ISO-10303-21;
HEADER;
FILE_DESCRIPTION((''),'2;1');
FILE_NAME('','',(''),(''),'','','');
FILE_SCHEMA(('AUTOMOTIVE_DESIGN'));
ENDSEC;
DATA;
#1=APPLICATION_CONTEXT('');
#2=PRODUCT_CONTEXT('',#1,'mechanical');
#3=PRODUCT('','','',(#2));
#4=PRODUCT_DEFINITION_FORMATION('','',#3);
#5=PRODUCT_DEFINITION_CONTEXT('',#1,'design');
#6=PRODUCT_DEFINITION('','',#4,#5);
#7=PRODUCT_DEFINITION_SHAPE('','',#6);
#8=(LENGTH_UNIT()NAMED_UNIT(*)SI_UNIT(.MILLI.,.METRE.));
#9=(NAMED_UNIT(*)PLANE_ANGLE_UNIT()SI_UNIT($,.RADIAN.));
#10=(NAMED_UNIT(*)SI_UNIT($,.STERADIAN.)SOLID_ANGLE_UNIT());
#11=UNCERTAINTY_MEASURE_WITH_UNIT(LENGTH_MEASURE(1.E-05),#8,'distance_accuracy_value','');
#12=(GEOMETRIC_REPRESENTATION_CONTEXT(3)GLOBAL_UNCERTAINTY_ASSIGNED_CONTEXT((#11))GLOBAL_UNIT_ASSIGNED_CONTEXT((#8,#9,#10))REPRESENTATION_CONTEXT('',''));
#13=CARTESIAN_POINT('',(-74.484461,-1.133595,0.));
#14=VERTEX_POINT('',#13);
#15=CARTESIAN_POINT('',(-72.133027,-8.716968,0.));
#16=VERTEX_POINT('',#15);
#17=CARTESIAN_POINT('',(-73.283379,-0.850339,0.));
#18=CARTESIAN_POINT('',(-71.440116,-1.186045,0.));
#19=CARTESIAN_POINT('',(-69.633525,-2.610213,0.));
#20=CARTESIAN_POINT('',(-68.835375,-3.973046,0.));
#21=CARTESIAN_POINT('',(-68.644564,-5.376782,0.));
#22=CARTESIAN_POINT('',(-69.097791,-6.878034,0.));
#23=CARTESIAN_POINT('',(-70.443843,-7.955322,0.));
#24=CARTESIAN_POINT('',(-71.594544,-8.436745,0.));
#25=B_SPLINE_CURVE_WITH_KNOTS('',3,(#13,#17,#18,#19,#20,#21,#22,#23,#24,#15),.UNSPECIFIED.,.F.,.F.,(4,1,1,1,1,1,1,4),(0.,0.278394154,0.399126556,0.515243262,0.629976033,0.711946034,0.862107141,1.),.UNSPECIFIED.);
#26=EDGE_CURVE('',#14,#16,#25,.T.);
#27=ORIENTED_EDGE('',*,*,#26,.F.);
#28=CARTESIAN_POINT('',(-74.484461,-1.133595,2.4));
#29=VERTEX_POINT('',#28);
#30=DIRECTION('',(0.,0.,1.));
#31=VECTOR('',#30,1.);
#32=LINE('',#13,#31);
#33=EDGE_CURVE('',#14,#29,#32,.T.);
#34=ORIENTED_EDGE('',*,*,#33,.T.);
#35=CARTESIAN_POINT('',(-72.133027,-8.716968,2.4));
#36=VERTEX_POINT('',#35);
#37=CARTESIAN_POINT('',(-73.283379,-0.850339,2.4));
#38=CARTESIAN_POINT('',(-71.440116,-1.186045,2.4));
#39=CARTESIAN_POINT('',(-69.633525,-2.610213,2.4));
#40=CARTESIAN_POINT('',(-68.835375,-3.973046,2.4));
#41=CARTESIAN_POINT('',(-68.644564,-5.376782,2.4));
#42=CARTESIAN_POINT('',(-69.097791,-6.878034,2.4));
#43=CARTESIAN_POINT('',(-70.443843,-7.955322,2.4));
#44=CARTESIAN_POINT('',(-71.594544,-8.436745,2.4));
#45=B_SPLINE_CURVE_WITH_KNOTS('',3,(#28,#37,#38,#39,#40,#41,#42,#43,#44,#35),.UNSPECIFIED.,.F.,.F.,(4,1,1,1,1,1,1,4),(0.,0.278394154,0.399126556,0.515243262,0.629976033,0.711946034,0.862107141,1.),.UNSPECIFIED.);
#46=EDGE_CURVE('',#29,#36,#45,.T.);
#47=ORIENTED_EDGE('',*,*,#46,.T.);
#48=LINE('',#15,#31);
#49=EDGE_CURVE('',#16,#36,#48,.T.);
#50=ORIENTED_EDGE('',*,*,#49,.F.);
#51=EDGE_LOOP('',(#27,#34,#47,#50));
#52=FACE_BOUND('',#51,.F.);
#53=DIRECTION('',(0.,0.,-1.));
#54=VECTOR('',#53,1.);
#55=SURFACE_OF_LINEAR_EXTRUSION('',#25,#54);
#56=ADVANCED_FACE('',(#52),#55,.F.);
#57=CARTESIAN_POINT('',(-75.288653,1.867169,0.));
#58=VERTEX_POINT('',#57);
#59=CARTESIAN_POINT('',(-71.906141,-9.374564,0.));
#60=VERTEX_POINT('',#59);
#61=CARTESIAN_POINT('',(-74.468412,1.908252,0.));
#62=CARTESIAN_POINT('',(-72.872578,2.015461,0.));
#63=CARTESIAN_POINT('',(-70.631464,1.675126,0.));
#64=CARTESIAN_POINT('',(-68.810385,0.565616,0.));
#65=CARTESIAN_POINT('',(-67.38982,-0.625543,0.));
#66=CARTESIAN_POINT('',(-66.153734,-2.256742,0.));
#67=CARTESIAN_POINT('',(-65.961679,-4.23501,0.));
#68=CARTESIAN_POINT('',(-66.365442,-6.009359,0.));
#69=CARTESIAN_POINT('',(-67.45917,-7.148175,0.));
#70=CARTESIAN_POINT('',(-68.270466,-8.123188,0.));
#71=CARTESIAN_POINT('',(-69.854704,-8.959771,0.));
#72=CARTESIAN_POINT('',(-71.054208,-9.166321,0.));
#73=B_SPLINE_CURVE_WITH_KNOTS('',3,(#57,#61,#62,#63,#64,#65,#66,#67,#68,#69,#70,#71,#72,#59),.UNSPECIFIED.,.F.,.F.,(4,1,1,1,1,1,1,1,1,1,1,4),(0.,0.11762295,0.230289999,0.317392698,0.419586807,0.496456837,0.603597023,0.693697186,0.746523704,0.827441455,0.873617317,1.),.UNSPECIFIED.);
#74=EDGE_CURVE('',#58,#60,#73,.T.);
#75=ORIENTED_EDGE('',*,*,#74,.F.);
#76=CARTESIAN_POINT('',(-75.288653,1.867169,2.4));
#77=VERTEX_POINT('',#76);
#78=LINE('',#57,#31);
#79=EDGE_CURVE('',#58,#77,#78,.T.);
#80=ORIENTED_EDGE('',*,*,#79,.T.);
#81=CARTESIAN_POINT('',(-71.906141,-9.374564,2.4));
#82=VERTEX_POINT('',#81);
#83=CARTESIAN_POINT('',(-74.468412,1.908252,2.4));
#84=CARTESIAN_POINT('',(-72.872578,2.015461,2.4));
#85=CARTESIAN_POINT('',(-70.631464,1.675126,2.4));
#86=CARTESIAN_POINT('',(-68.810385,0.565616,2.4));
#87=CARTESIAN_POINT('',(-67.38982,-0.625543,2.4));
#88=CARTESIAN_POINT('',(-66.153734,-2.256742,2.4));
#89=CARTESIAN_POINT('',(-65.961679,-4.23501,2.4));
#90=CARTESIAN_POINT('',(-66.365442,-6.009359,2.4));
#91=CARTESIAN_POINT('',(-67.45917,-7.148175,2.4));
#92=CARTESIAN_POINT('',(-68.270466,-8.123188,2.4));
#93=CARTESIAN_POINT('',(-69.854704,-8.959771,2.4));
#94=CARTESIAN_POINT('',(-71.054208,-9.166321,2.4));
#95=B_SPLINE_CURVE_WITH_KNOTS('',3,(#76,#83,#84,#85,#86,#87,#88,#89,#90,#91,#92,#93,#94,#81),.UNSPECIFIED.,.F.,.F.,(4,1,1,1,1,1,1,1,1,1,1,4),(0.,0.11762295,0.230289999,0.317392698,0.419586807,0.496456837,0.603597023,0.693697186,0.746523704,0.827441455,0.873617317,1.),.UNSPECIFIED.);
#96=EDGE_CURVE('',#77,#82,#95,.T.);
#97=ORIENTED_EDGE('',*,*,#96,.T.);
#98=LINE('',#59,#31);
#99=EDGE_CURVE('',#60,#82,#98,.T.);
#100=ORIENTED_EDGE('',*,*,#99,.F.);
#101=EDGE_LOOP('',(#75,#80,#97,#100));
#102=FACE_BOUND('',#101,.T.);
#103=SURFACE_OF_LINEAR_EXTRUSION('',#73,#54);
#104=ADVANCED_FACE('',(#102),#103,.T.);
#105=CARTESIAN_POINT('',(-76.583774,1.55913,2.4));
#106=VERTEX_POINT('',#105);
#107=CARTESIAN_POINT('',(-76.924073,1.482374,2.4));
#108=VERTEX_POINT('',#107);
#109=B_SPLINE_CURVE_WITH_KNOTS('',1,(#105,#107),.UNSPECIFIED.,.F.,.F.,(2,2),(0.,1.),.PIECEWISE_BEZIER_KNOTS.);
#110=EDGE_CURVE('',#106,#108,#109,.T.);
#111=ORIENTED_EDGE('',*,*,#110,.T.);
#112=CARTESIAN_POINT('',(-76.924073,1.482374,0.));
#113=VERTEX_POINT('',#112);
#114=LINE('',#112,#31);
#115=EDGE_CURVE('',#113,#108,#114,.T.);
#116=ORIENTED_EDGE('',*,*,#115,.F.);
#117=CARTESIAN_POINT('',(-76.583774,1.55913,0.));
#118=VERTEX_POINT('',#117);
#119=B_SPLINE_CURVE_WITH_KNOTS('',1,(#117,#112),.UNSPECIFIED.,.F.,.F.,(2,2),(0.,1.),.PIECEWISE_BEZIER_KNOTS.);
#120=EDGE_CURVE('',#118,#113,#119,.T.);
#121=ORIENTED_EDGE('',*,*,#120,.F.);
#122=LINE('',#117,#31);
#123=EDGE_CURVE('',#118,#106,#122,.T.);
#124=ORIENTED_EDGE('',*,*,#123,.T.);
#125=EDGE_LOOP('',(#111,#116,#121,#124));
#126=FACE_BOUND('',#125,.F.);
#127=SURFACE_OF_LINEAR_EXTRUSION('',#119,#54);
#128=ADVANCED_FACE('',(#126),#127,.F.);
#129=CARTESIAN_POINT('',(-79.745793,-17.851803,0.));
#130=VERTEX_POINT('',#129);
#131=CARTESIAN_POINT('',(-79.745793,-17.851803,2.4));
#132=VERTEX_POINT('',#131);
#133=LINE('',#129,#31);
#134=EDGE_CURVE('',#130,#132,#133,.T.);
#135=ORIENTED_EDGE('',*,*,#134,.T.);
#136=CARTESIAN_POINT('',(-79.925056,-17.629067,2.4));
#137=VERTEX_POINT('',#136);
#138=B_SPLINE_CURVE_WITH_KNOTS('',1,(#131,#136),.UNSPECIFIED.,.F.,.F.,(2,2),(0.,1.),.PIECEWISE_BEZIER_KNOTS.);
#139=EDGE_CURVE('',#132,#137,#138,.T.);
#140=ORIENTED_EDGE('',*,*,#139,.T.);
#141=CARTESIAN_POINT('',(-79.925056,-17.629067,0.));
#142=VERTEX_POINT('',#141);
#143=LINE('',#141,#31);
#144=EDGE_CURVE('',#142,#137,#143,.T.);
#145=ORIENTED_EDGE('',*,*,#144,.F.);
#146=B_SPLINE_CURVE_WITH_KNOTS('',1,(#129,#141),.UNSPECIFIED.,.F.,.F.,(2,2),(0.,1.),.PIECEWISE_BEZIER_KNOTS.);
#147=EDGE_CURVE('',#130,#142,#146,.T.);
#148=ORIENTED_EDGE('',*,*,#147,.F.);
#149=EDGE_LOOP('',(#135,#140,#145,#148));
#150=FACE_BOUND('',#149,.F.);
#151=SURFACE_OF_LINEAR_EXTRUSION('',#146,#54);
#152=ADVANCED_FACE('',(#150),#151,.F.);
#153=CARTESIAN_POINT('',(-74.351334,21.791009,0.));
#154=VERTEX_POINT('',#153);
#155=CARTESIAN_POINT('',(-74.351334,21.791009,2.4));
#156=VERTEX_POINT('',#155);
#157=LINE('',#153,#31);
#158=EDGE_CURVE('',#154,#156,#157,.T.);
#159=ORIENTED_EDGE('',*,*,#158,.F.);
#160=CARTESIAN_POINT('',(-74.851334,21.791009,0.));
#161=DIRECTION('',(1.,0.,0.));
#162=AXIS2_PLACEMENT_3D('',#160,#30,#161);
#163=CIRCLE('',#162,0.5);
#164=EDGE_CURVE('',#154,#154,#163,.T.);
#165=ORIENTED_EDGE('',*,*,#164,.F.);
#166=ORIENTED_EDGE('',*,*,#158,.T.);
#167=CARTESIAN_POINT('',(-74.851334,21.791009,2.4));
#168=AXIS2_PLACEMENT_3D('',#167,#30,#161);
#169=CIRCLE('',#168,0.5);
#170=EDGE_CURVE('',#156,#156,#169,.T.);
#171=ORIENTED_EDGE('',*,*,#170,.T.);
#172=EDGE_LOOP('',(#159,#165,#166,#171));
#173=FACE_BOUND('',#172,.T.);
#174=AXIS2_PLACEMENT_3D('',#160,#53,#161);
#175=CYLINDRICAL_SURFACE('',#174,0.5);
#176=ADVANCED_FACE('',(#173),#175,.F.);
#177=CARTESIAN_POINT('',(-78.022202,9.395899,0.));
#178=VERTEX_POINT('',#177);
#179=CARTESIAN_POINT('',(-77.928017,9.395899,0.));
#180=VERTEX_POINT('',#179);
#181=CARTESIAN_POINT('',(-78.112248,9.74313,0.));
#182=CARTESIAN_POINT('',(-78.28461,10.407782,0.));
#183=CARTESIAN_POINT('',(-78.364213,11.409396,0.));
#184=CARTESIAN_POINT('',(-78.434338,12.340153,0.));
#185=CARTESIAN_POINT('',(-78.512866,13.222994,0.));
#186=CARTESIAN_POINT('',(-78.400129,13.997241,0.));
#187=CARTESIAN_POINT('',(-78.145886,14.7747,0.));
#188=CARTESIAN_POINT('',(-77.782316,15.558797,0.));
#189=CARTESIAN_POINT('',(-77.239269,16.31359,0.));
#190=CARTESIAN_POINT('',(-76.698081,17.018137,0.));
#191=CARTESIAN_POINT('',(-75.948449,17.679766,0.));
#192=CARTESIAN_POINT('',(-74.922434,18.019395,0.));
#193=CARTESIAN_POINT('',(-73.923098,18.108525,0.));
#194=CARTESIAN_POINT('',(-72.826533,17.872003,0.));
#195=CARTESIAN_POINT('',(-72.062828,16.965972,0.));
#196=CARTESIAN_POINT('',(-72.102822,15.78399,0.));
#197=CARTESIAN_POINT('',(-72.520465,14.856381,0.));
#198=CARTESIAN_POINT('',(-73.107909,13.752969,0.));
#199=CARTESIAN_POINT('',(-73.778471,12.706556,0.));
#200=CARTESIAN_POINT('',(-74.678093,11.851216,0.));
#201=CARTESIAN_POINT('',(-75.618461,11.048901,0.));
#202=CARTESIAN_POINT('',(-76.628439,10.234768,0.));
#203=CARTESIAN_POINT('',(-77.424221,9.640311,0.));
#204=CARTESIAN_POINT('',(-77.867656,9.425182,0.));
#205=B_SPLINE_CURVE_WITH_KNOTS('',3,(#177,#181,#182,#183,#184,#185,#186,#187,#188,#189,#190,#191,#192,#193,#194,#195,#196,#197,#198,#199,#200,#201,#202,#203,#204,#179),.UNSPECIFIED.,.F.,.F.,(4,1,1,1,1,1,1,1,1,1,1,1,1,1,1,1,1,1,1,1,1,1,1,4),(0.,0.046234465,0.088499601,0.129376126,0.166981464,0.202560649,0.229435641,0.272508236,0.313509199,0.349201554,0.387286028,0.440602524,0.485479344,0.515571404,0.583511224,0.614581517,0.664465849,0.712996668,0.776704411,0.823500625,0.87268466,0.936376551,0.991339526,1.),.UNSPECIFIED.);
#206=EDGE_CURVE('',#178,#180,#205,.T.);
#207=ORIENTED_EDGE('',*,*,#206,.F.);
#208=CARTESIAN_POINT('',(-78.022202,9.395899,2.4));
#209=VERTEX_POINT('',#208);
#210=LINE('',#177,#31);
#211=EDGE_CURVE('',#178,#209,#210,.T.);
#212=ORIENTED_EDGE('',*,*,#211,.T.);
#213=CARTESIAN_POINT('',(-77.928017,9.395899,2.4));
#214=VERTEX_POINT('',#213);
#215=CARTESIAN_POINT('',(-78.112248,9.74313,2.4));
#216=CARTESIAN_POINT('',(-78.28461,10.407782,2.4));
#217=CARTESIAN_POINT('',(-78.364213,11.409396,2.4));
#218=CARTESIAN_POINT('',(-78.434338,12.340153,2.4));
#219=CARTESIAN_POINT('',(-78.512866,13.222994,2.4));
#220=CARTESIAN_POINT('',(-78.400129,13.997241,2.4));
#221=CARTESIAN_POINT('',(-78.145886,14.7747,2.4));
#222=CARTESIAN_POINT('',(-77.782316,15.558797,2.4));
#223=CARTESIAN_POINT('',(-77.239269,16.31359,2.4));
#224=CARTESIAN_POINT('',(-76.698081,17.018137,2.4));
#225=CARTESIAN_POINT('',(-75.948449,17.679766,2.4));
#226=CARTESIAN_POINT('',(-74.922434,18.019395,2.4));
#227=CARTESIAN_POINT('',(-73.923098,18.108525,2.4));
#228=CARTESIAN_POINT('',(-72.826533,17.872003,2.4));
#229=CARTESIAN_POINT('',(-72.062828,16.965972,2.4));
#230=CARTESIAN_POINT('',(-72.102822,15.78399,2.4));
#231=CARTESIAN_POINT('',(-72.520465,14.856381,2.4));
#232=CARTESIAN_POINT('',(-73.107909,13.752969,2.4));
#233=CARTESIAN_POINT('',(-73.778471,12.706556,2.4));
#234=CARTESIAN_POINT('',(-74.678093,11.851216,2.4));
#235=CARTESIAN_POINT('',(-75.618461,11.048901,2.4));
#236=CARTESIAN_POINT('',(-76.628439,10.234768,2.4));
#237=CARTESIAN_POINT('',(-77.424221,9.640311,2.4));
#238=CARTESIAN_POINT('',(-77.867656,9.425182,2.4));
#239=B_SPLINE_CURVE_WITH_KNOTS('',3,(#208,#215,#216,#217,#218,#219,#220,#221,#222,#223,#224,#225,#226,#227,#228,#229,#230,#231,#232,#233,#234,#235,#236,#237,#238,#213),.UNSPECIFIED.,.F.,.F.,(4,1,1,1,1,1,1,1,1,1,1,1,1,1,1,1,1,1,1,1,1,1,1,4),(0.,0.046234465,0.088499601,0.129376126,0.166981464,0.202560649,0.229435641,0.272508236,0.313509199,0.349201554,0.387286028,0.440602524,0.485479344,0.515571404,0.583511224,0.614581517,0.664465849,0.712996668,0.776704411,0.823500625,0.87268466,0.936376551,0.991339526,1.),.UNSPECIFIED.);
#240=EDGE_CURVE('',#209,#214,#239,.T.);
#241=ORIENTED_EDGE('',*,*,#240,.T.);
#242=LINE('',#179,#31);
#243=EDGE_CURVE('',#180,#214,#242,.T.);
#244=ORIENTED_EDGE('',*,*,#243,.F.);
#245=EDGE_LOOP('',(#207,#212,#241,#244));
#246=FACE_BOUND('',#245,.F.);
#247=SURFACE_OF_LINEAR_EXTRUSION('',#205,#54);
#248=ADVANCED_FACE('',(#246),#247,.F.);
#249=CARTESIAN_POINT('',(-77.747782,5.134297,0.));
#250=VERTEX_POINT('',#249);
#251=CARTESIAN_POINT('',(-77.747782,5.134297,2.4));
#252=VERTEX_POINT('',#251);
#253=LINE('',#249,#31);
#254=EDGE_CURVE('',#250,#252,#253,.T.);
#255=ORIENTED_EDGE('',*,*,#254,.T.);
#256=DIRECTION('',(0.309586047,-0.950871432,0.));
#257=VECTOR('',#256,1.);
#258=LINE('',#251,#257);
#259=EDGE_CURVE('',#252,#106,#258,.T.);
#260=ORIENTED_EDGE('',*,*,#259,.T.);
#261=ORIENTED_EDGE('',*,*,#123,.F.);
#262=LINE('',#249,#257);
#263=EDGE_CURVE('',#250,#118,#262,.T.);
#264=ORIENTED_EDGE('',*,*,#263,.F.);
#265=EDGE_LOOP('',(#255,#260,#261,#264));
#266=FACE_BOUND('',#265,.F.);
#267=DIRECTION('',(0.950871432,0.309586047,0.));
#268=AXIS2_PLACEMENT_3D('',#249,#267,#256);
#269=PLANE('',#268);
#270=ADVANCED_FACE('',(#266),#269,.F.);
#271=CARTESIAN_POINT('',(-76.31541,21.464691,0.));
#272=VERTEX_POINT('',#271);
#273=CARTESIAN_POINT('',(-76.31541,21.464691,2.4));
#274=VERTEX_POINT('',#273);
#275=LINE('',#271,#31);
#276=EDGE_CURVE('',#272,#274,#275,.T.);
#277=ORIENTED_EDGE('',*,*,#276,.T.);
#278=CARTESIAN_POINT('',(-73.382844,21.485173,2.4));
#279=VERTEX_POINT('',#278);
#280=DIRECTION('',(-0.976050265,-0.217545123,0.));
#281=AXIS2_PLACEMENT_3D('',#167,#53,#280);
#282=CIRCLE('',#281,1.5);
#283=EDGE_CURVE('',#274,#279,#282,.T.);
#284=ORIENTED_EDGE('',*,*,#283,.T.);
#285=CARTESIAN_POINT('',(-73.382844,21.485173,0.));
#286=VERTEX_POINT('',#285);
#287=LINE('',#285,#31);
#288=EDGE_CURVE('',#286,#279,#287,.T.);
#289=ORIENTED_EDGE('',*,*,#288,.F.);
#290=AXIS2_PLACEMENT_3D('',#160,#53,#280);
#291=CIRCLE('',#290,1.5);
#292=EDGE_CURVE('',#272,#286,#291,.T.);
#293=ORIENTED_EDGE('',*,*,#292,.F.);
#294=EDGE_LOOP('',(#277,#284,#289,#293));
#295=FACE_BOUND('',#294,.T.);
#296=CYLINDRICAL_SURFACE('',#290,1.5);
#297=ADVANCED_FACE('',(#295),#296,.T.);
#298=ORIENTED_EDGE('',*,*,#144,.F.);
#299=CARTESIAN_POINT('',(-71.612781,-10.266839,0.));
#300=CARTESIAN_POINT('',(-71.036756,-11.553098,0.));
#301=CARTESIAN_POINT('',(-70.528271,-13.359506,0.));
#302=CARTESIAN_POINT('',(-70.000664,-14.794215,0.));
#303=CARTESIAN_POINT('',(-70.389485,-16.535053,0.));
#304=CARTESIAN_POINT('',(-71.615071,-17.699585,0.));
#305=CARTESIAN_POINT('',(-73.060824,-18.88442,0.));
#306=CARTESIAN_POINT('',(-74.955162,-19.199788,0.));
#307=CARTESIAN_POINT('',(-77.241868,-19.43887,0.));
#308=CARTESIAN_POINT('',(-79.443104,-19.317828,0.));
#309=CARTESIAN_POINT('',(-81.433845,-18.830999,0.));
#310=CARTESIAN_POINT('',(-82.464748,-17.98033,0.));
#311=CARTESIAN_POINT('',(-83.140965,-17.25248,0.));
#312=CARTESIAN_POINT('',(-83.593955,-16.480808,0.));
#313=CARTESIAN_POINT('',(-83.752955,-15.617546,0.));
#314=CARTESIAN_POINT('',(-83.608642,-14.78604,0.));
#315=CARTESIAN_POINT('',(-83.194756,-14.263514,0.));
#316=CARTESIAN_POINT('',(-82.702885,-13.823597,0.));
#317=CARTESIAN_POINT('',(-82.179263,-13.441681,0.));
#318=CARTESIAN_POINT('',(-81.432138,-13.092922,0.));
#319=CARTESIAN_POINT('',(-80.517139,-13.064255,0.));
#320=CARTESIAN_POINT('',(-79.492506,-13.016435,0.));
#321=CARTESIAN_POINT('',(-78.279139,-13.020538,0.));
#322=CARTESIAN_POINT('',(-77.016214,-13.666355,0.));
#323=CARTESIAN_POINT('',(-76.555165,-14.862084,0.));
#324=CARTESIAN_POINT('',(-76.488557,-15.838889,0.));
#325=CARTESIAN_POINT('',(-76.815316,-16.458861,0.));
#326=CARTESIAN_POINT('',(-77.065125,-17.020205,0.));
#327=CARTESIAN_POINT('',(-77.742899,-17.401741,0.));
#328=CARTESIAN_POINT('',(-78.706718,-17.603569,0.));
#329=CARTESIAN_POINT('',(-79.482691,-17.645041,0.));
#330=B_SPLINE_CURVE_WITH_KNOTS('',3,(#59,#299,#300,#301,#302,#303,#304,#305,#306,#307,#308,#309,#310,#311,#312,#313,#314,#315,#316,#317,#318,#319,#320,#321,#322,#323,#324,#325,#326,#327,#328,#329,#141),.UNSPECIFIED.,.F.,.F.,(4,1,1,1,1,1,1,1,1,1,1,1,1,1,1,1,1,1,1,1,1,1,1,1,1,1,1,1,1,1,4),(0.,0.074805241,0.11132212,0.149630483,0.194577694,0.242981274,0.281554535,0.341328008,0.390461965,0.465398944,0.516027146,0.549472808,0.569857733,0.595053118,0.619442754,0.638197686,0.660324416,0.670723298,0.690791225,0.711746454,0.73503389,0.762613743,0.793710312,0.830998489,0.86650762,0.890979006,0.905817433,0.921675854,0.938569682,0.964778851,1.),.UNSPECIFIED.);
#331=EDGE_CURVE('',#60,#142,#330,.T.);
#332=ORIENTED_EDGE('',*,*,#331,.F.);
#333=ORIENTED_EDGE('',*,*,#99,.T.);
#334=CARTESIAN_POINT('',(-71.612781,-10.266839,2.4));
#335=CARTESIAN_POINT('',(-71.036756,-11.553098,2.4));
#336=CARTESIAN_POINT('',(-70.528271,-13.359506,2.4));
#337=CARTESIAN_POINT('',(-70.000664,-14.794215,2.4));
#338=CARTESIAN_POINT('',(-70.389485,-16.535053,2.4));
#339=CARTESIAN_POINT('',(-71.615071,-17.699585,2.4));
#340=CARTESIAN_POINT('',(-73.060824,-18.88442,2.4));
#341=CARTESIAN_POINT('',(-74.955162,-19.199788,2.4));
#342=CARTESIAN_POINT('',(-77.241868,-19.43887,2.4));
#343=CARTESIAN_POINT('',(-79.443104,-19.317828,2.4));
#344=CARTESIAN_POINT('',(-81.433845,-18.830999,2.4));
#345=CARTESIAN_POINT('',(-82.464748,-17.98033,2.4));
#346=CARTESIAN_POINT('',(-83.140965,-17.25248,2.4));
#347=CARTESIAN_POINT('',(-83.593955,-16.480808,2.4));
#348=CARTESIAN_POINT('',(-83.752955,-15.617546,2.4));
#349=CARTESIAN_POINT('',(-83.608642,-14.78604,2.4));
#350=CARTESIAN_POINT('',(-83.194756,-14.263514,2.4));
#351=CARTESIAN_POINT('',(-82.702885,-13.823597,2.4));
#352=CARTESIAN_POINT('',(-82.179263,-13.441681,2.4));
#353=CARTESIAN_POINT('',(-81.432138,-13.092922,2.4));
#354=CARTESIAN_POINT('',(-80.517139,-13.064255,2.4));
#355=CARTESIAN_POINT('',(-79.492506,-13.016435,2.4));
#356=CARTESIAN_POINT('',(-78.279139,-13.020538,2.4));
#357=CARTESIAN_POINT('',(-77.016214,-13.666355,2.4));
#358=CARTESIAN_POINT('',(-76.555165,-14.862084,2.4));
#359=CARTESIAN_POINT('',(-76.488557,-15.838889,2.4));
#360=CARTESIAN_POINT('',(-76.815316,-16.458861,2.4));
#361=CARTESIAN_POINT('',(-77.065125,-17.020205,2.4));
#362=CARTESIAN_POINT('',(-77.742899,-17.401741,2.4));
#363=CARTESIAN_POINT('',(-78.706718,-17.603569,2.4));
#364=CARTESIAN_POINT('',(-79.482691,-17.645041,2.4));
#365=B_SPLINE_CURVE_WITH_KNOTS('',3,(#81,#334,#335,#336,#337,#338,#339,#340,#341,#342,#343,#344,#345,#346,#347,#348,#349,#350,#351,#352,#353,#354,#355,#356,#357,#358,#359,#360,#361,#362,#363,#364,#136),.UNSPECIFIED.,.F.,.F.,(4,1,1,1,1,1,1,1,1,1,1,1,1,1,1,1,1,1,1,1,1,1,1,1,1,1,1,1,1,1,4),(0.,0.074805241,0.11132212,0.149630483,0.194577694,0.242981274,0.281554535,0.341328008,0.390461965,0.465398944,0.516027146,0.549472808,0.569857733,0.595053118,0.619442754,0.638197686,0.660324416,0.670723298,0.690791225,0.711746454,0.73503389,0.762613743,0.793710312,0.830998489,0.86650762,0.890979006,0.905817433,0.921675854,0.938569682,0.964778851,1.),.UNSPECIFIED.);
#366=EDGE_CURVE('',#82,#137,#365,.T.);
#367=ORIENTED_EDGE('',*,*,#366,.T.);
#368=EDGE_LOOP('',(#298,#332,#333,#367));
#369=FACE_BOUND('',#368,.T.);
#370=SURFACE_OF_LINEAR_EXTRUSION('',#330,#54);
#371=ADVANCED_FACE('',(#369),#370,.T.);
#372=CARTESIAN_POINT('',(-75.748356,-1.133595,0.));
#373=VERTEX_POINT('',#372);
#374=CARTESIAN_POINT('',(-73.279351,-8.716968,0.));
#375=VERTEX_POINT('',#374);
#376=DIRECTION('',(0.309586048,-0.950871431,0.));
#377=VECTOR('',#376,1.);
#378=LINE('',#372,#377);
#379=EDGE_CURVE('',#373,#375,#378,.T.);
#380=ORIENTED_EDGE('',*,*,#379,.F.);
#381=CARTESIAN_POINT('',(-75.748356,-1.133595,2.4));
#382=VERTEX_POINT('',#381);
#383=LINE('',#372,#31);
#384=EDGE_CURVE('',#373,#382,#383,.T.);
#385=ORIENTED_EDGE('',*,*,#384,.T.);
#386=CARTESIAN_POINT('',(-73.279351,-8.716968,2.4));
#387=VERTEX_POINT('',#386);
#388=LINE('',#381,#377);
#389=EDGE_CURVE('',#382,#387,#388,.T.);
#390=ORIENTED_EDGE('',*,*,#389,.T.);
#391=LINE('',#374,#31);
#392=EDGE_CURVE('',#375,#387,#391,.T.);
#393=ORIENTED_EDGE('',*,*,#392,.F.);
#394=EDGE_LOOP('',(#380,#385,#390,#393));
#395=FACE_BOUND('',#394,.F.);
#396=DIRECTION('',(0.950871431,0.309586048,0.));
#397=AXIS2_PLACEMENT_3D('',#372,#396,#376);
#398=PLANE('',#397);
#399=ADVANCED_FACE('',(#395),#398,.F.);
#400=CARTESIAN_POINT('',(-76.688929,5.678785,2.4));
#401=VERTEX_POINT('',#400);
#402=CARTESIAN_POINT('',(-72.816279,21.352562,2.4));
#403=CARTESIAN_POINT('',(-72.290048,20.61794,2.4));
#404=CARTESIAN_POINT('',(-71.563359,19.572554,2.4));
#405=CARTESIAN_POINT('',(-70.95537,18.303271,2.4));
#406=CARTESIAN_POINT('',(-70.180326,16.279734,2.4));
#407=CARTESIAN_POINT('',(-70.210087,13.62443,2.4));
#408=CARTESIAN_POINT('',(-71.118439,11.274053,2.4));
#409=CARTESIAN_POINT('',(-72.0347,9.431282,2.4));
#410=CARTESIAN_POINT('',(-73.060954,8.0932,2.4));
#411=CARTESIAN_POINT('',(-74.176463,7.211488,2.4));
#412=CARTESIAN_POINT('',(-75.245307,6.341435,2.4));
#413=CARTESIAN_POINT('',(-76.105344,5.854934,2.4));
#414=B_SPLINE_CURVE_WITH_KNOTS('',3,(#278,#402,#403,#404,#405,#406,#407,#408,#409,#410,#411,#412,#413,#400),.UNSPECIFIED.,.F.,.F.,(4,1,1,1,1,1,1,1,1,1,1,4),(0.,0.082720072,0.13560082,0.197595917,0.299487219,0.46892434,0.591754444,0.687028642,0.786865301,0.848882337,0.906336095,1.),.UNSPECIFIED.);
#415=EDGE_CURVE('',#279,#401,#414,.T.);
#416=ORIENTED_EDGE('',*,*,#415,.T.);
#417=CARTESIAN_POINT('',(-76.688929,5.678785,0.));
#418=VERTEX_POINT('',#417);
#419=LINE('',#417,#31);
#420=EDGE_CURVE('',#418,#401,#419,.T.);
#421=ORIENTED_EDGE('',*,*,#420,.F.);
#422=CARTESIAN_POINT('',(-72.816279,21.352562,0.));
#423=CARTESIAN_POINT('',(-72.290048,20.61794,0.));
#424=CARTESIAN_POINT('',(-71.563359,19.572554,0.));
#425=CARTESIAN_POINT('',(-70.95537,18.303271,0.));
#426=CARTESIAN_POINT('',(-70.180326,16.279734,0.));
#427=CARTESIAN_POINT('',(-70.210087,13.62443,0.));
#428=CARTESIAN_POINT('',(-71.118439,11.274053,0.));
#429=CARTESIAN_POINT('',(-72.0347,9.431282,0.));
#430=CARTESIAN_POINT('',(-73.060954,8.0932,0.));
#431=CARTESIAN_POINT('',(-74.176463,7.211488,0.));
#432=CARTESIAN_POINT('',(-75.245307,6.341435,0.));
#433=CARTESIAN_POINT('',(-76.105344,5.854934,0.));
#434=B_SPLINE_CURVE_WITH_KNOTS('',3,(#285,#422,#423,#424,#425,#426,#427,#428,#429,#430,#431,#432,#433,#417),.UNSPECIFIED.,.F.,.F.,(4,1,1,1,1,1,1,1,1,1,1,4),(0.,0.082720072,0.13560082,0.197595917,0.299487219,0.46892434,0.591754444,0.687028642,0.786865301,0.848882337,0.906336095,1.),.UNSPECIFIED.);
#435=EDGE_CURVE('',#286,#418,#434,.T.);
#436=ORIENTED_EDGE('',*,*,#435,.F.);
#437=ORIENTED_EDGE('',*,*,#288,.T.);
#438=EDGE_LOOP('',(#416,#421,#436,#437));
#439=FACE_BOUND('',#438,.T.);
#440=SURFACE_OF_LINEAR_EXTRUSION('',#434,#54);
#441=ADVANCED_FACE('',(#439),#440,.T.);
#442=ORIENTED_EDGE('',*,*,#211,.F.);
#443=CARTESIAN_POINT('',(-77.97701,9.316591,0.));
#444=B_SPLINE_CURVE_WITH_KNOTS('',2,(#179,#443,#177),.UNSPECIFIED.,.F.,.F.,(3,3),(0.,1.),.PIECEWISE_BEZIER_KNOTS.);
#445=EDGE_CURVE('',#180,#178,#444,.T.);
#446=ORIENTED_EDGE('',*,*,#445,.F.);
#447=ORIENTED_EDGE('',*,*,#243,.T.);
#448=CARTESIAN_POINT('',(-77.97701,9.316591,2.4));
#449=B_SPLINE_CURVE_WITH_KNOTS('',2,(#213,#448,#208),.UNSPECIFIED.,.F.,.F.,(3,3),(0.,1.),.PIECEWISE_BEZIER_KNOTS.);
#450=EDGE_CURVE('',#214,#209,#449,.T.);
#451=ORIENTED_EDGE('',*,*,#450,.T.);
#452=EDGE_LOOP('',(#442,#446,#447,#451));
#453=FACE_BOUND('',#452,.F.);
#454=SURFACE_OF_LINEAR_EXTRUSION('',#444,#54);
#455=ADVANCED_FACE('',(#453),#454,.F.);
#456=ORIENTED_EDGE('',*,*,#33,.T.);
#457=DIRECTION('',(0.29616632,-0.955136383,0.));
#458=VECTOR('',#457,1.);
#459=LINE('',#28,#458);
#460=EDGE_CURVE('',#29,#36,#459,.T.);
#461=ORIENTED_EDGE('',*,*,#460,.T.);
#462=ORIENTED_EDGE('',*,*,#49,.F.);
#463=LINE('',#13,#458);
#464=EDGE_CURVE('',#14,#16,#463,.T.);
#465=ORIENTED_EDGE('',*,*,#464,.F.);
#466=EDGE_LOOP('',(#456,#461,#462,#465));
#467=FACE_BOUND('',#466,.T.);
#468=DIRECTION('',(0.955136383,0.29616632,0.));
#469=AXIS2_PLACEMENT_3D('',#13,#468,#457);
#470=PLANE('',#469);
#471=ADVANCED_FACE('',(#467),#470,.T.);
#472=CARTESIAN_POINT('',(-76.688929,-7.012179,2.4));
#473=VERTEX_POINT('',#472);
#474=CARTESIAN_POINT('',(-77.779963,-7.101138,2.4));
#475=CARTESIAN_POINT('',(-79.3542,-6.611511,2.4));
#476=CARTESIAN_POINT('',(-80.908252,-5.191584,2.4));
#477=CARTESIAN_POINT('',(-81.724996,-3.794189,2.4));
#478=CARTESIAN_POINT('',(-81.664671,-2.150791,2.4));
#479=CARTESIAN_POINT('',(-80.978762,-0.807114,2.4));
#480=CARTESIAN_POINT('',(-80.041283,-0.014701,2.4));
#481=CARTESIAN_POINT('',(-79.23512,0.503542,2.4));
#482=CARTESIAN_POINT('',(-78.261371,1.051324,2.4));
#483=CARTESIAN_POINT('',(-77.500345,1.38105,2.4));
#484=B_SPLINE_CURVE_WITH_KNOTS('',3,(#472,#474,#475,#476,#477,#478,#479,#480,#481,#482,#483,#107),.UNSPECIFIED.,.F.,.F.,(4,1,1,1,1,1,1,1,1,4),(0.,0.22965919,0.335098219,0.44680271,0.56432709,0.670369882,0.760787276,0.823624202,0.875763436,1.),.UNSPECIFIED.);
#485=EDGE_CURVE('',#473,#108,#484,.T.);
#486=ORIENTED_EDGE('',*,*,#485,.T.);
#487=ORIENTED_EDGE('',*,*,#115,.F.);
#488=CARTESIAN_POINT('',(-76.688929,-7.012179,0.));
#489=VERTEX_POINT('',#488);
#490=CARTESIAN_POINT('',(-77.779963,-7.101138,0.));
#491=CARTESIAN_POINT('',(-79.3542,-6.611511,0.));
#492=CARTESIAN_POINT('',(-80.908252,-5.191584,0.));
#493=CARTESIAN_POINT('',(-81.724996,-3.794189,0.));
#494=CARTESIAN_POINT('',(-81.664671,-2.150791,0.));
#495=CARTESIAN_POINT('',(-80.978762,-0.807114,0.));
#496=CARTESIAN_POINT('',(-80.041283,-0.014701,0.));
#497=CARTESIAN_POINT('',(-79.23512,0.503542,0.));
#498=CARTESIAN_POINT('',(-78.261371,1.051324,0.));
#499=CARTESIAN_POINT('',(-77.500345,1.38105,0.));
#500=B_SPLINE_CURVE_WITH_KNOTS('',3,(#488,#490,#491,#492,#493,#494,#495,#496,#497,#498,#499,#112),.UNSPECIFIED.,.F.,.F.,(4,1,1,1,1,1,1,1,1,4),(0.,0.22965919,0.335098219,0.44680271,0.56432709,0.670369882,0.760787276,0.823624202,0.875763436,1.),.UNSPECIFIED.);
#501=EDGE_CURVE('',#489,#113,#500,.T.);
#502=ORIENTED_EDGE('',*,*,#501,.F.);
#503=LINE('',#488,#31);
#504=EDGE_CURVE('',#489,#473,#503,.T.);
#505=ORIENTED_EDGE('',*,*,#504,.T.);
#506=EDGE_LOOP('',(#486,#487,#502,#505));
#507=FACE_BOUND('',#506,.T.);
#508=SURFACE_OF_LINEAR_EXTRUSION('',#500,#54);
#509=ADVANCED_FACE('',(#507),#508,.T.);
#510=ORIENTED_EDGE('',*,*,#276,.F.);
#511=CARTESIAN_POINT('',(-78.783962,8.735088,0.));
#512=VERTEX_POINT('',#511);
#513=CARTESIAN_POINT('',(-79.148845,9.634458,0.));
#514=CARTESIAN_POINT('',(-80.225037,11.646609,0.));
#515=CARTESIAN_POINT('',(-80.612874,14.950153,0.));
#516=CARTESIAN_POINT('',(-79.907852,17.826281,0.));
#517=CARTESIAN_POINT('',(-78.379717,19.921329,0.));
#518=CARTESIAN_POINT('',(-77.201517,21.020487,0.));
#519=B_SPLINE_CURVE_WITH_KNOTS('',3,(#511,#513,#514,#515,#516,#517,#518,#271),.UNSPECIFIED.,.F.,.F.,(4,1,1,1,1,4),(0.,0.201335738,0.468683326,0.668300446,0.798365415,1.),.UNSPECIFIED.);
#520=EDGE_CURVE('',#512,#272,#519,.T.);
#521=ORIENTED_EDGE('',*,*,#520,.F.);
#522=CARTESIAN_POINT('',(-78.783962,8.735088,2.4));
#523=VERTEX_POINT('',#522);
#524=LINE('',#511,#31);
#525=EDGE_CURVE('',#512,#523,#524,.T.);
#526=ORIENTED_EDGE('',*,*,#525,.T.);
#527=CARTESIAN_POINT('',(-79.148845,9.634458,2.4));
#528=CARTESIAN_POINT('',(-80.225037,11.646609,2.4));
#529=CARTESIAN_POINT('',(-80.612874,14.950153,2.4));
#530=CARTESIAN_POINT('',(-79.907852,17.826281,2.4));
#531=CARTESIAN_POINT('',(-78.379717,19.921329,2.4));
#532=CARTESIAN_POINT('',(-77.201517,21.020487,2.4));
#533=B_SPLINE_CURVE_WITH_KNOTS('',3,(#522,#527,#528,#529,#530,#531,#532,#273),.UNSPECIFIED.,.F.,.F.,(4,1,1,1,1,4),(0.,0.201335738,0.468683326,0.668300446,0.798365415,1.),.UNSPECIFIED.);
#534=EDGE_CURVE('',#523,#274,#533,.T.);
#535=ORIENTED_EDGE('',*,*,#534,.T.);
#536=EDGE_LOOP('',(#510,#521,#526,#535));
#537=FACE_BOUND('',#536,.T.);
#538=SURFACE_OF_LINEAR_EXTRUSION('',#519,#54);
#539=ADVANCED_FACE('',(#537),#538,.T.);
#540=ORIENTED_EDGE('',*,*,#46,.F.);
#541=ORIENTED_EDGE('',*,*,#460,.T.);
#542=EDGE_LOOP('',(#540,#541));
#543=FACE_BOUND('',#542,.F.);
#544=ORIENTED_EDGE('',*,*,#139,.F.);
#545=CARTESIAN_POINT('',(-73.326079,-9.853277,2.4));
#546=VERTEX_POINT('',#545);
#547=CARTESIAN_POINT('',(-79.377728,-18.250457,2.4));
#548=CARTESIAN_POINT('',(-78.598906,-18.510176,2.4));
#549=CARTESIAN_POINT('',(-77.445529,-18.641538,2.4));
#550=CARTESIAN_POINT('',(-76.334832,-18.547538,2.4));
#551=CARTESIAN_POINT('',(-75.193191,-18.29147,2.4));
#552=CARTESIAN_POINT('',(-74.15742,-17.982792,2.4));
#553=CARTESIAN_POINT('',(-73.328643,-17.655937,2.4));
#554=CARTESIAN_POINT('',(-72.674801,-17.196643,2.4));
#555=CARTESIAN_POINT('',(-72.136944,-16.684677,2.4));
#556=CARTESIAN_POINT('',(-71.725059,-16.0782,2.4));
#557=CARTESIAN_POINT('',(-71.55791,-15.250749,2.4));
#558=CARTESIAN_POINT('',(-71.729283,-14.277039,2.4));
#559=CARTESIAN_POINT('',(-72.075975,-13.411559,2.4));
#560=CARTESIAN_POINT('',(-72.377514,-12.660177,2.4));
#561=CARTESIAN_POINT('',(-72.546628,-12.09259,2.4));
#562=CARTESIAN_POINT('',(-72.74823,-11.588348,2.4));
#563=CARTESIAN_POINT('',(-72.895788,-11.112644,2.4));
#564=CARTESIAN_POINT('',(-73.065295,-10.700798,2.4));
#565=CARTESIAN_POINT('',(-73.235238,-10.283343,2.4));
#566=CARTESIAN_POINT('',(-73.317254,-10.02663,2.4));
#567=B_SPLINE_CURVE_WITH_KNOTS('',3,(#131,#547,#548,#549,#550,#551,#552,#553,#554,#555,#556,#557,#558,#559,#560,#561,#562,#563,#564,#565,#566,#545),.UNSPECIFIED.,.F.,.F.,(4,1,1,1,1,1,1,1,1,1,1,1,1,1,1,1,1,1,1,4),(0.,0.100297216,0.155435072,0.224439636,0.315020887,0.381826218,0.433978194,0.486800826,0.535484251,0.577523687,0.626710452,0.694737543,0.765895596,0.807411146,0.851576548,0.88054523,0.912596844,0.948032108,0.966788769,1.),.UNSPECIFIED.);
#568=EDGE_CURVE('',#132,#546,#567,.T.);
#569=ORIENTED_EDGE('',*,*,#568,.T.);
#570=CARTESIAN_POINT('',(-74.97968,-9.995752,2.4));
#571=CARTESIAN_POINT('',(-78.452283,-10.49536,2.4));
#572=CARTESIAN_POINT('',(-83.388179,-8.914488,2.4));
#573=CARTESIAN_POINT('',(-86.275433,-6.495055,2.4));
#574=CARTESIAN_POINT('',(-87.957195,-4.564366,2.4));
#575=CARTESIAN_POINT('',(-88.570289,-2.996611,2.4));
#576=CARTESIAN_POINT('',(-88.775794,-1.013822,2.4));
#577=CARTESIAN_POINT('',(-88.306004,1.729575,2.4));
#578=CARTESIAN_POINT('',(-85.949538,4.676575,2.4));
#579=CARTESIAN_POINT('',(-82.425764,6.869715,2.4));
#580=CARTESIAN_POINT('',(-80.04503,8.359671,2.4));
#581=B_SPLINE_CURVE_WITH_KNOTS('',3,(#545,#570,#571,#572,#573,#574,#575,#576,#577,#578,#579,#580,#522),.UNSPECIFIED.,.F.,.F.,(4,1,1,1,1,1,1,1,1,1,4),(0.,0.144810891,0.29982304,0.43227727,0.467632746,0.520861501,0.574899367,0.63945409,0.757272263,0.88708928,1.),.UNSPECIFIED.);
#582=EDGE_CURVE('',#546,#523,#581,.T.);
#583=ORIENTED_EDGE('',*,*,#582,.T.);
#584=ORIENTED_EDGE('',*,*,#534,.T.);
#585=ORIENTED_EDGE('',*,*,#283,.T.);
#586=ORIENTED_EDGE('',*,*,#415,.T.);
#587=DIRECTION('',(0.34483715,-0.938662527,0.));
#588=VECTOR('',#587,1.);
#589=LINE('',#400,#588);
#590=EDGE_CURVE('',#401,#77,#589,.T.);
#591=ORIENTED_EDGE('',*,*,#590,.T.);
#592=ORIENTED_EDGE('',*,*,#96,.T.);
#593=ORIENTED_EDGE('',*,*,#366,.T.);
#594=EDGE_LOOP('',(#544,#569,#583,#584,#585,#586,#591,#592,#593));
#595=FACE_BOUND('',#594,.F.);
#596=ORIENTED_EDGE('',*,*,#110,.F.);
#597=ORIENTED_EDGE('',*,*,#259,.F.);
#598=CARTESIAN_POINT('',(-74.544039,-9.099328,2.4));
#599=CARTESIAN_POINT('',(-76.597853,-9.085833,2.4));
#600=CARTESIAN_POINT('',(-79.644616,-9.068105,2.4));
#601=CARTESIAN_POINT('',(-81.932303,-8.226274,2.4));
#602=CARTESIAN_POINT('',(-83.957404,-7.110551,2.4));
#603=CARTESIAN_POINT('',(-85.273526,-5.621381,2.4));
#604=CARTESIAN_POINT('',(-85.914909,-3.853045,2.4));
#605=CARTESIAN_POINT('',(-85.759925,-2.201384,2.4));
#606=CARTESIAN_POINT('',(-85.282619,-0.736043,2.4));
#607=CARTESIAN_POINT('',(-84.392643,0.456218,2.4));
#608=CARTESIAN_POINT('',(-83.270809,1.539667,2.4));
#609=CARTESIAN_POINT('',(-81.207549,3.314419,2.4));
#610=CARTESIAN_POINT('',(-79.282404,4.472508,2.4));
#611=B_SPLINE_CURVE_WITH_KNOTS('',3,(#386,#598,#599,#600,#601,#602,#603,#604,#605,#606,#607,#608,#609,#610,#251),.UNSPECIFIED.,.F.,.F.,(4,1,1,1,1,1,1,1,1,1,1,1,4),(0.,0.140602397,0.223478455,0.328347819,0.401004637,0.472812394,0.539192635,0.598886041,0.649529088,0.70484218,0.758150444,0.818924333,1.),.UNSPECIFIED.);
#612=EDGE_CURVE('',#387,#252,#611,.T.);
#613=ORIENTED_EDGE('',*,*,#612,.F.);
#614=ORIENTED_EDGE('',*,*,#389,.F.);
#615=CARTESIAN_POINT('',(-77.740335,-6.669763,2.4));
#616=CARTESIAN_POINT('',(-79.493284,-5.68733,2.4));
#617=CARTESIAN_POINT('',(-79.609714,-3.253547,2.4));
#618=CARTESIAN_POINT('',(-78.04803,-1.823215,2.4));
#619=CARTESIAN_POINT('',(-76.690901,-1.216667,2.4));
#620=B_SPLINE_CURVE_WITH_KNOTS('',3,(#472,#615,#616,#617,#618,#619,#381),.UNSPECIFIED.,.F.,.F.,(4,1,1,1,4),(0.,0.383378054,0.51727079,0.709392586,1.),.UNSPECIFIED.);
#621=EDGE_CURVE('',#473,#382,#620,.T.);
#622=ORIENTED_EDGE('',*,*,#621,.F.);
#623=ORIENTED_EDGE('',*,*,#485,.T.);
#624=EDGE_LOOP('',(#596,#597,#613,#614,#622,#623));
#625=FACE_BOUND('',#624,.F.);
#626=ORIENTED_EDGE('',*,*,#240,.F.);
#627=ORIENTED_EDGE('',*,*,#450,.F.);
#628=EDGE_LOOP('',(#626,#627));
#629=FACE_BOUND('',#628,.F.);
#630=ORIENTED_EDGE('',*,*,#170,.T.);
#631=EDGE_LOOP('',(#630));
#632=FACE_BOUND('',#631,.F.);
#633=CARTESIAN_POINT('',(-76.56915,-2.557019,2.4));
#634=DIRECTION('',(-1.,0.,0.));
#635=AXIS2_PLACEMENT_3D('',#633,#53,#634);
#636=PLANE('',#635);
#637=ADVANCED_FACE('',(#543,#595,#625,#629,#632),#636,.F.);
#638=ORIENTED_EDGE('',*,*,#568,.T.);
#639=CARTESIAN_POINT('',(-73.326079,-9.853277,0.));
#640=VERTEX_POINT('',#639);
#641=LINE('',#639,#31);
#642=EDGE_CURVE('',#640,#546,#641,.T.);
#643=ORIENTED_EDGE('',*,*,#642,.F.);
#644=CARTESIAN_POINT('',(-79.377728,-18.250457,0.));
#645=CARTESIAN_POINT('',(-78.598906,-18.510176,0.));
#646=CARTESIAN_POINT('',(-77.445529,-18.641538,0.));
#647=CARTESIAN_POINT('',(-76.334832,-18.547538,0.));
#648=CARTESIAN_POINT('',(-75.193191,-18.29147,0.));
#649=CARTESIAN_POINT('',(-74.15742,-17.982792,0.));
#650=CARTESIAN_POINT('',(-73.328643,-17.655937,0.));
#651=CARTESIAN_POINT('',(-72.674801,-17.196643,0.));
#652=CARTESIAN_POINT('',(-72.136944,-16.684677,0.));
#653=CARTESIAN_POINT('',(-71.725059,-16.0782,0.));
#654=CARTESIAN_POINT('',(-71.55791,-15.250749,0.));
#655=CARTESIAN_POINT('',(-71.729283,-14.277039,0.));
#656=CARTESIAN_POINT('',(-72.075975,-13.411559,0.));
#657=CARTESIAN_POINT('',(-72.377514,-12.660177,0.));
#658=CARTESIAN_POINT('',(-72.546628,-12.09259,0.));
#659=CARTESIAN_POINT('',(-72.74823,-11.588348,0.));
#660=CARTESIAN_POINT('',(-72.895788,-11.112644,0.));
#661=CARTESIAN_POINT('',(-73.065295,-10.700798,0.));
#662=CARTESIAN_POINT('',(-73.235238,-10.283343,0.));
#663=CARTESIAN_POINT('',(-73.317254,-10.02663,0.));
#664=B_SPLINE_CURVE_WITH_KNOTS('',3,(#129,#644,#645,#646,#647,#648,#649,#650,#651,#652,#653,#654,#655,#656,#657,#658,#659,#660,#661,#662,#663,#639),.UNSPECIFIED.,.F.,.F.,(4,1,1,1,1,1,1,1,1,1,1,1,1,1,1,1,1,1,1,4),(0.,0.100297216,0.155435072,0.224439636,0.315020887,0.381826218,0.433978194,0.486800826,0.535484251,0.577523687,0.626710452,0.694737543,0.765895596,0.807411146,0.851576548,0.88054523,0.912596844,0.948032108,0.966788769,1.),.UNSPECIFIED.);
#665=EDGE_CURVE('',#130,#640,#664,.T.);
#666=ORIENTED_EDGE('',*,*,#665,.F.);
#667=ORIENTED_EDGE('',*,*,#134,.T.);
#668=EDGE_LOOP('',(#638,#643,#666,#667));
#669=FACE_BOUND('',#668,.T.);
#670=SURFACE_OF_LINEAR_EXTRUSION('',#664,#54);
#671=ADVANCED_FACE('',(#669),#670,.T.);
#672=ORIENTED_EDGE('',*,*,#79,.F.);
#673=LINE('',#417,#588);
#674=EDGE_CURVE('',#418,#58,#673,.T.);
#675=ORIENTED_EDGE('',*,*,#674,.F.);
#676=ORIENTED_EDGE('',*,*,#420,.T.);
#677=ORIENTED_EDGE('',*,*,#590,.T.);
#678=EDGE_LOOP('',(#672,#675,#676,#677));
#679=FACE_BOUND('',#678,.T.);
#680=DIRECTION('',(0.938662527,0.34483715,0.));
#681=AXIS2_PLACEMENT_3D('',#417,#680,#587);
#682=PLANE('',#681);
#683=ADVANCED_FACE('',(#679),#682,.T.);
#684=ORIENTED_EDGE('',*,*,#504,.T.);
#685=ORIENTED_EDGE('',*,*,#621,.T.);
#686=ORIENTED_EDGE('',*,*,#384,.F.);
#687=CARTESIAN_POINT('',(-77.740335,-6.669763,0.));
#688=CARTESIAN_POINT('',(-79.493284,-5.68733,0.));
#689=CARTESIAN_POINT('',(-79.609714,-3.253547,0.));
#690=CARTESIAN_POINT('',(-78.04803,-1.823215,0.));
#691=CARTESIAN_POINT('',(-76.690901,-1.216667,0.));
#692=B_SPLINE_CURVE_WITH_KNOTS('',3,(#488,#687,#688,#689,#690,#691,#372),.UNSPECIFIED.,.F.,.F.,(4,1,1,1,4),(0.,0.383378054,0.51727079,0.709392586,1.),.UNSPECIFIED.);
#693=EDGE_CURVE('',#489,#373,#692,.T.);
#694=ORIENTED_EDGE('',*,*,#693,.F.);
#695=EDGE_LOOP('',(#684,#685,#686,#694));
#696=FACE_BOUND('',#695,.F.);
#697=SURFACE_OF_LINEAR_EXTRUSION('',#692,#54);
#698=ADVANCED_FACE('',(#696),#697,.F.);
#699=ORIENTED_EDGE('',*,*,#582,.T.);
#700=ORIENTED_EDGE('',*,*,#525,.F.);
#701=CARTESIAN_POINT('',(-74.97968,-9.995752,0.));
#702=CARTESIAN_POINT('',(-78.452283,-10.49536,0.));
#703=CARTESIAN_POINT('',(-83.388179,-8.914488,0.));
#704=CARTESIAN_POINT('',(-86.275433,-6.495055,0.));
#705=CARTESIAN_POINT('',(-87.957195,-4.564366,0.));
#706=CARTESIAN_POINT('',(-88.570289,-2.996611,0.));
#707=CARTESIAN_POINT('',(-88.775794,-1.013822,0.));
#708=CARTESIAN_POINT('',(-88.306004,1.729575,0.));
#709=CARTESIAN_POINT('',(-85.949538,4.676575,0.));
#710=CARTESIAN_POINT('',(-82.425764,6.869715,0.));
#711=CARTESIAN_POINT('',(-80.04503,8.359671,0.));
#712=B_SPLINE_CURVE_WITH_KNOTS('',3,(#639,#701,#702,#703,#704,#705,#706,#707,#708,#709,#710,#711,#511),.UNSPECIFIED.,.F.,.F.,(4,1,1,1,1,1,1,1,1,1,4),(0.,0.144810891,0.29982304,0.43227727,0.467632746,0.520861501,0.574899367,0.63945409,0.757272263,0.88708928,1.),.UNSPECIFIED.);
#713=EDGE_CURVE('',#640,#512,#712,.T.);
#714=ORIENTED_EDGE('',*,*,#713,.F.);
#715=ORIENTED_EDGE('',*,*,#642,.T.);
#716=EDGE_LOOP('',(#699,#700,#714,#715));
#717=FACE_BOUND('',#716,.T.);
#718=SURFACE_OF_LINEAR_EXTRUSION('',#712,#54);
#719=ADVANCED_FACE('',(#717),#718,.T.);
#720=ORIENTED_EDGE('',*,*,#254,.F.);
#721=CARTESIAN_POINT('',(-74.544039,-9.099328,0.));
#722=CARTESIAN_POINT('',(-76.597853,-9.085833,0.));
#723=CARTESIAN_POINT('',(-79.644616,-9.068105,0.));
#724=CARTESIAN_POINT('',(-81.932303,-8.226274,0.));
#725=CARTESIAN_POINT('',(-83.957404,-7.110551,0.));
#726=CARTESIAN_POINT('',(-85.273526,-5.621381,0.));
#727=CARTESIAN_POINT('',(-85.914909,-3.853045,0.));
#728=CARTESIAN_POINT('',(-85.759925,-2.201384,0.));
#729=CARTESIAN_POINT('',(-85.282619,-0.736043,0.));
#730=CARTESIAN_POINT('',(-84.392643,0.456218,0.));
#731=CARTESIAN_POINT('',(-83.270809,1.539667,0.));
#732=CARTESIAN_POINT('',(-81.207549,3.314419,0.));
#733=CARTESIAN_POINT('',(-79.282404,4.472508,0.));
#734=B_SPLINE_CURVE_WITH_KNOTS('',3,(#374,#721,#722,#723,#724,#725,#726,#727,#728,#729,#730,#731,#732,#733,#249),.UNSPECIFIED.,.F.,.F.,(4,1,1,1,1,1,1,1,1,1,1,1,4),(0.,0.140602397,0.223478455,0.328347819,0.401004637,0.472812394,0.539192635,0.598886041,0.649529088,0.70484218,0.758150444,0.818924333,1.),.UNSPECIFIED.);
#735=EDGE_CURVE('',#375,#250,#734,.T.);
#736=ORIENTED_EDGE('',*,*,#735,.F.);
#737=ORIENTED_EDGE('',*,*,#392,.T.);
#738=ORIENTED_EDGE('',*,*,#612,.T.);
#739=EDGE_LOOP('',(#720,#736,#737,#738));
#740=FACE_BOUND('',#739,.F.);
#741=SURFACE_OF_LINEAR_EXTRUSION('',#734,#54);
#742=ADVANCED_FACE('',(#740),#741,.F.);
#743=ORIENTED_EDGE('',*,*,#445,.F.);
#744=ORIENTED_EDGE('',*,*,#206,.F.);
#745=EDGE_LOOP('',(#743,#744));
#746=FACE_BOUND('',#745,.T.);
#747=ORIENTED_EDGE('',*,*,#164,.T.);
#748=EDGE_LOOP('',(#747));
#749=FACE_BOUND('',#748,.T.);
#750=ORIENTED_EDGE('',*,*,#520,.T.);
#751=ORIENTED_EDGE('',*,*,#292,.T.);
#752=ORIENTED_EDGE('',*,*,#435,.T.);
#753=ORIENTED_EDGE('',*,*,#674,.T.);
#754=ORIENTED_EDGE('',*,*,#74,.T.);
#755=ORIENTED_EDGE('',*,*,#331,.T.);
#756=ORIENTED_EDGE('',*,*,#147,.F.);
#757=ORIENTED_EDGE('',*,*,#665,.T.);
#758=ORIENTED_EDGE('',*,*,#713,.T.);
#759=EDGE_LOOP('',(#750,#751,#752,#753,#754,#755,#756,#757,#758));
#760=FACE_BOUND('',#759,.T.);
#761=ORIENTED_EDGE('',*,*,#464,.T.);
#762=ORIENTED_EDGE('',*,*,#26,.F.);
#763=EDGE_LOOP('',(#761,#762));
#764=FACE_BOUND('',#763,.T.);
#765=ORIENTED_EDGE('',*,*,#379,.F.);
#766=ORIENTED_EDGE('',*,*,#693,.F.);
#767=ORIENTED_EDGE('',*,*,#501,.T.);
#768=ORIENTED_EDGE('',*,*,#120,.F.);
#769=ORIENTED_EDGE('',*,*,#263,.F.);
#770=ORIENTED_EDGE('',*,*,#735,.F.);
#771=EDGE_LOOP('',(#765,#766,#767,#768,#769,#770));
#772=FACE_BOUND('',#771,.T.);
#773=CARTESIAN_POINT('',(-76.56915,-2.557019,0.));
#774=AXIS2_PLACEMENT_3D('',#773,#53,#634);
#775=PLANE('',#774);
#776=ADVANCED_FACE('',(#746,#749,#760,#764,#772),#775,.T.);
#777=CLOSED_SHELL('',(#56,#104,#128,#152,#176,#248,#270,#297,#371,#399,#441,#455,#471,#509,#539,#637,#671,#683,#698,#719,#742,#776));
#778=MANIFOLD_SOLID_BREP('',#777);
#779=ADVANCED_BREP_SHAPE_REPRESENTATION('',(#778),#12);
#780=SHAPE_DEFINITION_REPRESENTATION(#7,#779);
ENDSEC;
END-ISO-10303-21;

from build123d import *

# Parameters (mm, degrees)
CROQUIS1_R              = 0.5
SALIENTE_EXTRUIR1_DEPTH = 2.4


with BuildPart() as part:
    # Croquis1 → Saliente-Extruir1 (new body)
    with BuildSketch(Plane.XY):
        with BuildLine():
            add(Edge.make_bspline(
                [(-73.382843904, 21.485172649), (-72.816279322, 21.352562277), (-72.290048161, 20.617939926), (-71.563359458, 19.572554368), (-70.955369846, 18.303271377), (-70.180325761, 16.279733813), (-70.210087208, 13.6244299), (-71.118438702, 11.274052597), (-72.034700283, 9.43128208), (-73.060953827, 8.093199889), (-74.176463418, 7.211487575), (-75.245307097, 6.341435028), (-76.105343924, 5.854934057), (-76.688929455, 5.678784709)],
                knots=[0, 0, 0, 0, 0.082720072, 0.13560082, 0.197595917, 0.299487219, 0.46892434, 0.591754444, 0.687028642, 0.786865301, 0.848882337, 0.906336095, 1, 1, 1, 1], degree=3))
            Line((-76.688929455, 5.678784709), (-75.288653219, 1.867168619))
            add(Edge.make_bspline(
                [(-75.288653219, 1.867168619), (-74.468411952, 1.908252334), (-72.872577878, 2.015461097), (-70.631463745, 1.675125729), (-68.810384606, 0.565616098), (-67.389820174, -0.62554349), (-66.153734293, -2.256742458), (-65.96167945, -4.235010195), (-66.365441771, -6.009358939), (-67.459170254, -7.148174835), (-68.270466433, -8.123187694), (-69.854703917, -8.959771389), (-71.054207735, -9.166320913), (-71.906140878, -9.374564164)],
                knots=[0, 0, 0, 0, 0.11762295, 0.230289999, 0.317392698, 0.419586807, 0.496456837, 0.603597023, 0.693697186, 0.746523704, 0.827441455, 0.873617317, 1, 1, 1, 1], degree=3))
            add(Edge.make_bspline(
                [(-71.906140878, -9.374564164), (-71.61278094, -10.266839308), (-71.036756395, -11.553098269), (-70.528271485, -13.35950605), (-70.000664218, -14.794214547), (-70.38948534, -16.535052776), (-71.615071455, -17.699585086), (-73.060823598, -18.884419966), (-74.955161604, -19.19978755), (-77.241867683, -19.438869557), (-79.443104395, -19.317828204), (-81.433845047, -18.830999441), (-82.464748145, -17.980329563), (-83.140965101, -17.252480478), (-83.593955092, -16.480808011), (-83.752954974, -15.617546025), (-83.608641776, -14.78603997), (-83.194756323, -14.263514026), (-82.702884853, -13.823597136), (-82.179262793, -13.441681166), (-81.432137939, -13.092921965), (-80.517138878, -13.064254835), (-79.492506239, -13.016435402), (-78.279139352, -13.020538301), (-77.016213715, -13.666355282), (-76.555165276, -14.862084339), (-76.488557331, -15.83888893), (-76.815315899, -16.458860603), (-77.065125243, -17.020204619), (-77.742898732, -17.401740743), (-78.706718276, -17.603569236), (-79.482690885, -17.645040657), (-79.925056233, -17.629067046)],
                knots=[0, 0, 0, 0, 0.074805241, 0.11132212, 0.149630483, 0.194577694, 0.242981274, 0.281554535, 0.341328008, 0.390461965, 0.465398944, 0.516027146, 0.549472808, 0.569857733, 0.595053118, 0.619442754, 0.638197686, 0.660324416, 0.670723298, 0.690791225, 0.711746454, 0.73503389, 0.762613743, 0.793710312, 0.830998489, 0.86650762, 0.890979006, 0.905817433, 0.921675854, 0.938569682, 0.964778851, 1, 1, 1, 1], degree=3))
            add(Edge.make_bspline(
                [(-79.745792871, -17.851802825), (-79.925056233, -17.629067046)],
                knots=[0, 0, 1, 1], degree=1))
            add(Edge.make_bspline(
                [(-79.745792871, -17.851802825), (-79.377728082, -18.250457197), (-78.598905688, -18.510175961), (-77.445529422, -18.641537901), (-76.334832164, -18.54753779), (-75.193190702, -18.291470417), (-74.157420098, -17.982791531), (-73.328642935, -17.655936573), (-72.674800508, -17.19664297), (-72.136943705, -16.684677178), (-71.725059461, -16.078199587), (-71.557910168, -15.250749341), (-71.729283252, -14.277038523), (-72.075975491, -13.411558538), (-72.37751376, -12.660176729), (-72.546628338, -12.092589849), (-72.748229841, -11.588348302), (-72.895787934, -11.112644121), (-73.065295019, -10.700797712), (-73.235237824, -10.283342723), (-73.317254276, -10.026629889), (-73.326078886, -9.853276729)],
                knots=[0, 0, 0, 0, 0.100297216, 0.155435072, 0.224439636, 0.315020887, 0.381826218, 0.433978194, 0.486800826, 0.535484251, 0.577523687, 0.626710452, 0.694737543, 0.765895596, 0.807411146, 0.851576548, 0.88054523, 0.912596844, 0.948032108, 0.966788769, 1, 1, 1, 1], degree=3))
            add(Edge.make_bspline(
                [(-73.326078886, -9.853276729), (-74.979679959, -9.995751786), (-78.452282633, -10.49535985), (-83.388178533, -8.914488142), (-86.275432814, -6.495055205), (-87.957194856, -4.564365563), (-88.570288982, -2.996611158), (-88.775793899, -1.013821722), (-88.306004497, 1.729575325), (-85.949537881, 4.676575), (-82.425763739, 6.869714587), (-80.045029758, 8.359671299), (-78.783962186, 8.735087678)],
                knots=[0, 0, 0, 0, 0.144810891, 0.29982304, 0.43227727, 0.467632746, 0.520861501, 0.574899367, 0.63945409, 0.757272263, 0.88708928, 1, 1, 1, 1], degree=3))
            add(Edge.make_bspline(
                [(-78.783962186, 8.735087678), (-79.148845445, 9.634457766), (-80.225036896, 11.646609291), (-80.612874405, 14.950152713), (-79.907852199, 17.82628115), (-78.379717416, 19.921328754), (-77.201516961, 21.020487171), (-76.3154098, 21.464690957)],
                knots=[0, 0, 0, 0, 0.201335738, 0.468683326, 0.668300446, 0.798365415, 1, 1, 1, 1], degree=3))
            ThreePointArc((-76.3154098, 21.464690957), (-74.861810481, 23.290972059), (-73.382843904, 21.485172649))
        make_face()
        with Locations((-74.851334403, 21.791008643)):
            Circle(CROQUIS1_R, mode=Mode.SUBTRACT)
        with BuildLine():
            Line((-74.484460646, -1.133595475), (-72.133027249, -8.716968179))
            add(Edge.make_bspline(
                [(-74.484460646, -1.133595475), (-73.283378869, -0.850339229), (-71.440115738, -1.186045151), (-69.63352513, -2.610213082), (-68.835374903, -3.973046003), (-68.644563627, -5.376781633), (-69.097791243, -6.878034458), (-70.443842904, -7.955321849), (-71.594543517, -8.436745129), (-72.133027249, -8.716968179)],
                knots=[0, 0, 0, 0, 0.278394154, 0.399126556, 0.515243262, 0.629976033, 0.711946034, 0.862107141, 1, 1, 1, 1], degree=3))
        make_face(mode=Mode.SUBTRACT)
        with BuildLine():
            add(Edge.make_bspline(
                [(-77.928016672, 9.39589872), (-77.977009898, 9.316591026), (-78.022202288, 9.39589872)],
                knots=[0, 0, 0, 1, 1, 1], degree=2))
            add(Edge.make_bspline(
                [(-78.022202288, 9.39589872), (-78.112248491, 9.743130089), (-78.284610236, 10.407782258), (-78.36421323, 11.409395561), (-78.43433762, 12.340152669), (-78.512865884, 13.222993811), (-78.400129242, 13.997240727), (-78.145886099, 14.774699767), (-77.782315961, 15.558796545), (-77.239268592, 16.313589804), (-76.698081348, 17.018136895), (-75.948448577, 17.679765585), (-74.922434231, 18.019394979), (-73.923097777, 18.108525469), (-72.826532687, 17.872003144), (-72.062827891, 16.965972459), (-72.102821748, 15.783989767), (-72.52046451, 14.856380567), (-73.10790887, 13.752968837), (-73.778471189, 12.706556273), (-74.678093213, 11.851215915), (-75.618461258, 11.048901475), (-76.628439152, 10.234767882), (-77.424220679, 9.64031082), (-77.86765592, 9.425182197), (-77.928016672, 9.39589872)],
                knots=[0, 0, 0, 0, 0.046234465, 0.088499601, 0.129376126, 0.166981464, 0.202560649, 0.229435641, 0.272508236, 0.313509199, 0.349201554, 0.387286028, 0.440602524, 0.485479344, 0.515571404, 0.583511224, 0.614581517, 0.664465849, 0.712996668, 0.776704411, 0.823500625, 0.87268466, 0.936376551, 0.991339526, 1, 1, 1, 1], degree=3))
        make_face(mode=Mode.SUBTRACT)
        with BuildLine():
            Line((-75.748356097, -1.133595475), (-73.27935103, -8.716968179))
            add(Edge.make_bspline(
                [(-73.27935103, -8.716968179), (-74.54403941, -9.099328125), (-76.597852728, -9.085833404), (-79.644615755, -9.068104931), (-81.932302943, -8.226273805), (-83.957404242, -7.110551081), (-85.273526187, -5.621380732), (-85.914909067, -3.853044747), (-85.759925302, -2.201384209), (-85.282619327, -0.736042917), (-84.392643233, 0.456217849), (-83.27080941, 1.539666913), (-81.207549469, 3.314419204), (-79.282403907, 4.472508042), (-77.747782265, 5.134297209)],
                knots=[0, 0, 0, 0, 0.140602397, 0.223478455, 0.328347819, 0.401004637, 0.472812394, 0.539192635, 0.598886041, 0.649529088, 0.70484218, 0.758150444, 0.818924333, 1, 1, 1, 1], degree=3))
            Line((-77.747782265, 5.134297209), (-76.583774396, 1.559130182))
            add(Edge.make_bspline(
                [(-76.583774396, 1.559130182), (-76.924072795, 1.482374179)],
                knots=[0, 0, 1, 1], degree=1))
            add(Edge.make_bspline(
                [(-76.688929455, -7.012178967), (-77.779962606, -7.101137668), (-79.354199759, -6.611511351), (-80.90825158, -5.19158372), (-81.724995865, -3.79418853), (-81.664670946, -2.150791159), (-80.978762427, -0.807113786), (-80.041282643, -0.014701178), (-79.235120023, 0.503541817), (-78.26137141, 1.051323643), (-77.500345123, 1.381049705), (-76.924072795, 1.482374179)],
                knots=[0, 0, 0, 0, 0.22965919, 0.335098219, 0.44680271, 0.56432709, 0.670369882, 0.760787276, 0.823624202, 0.875763436, 1, 1, 1, 1], degree=3))
            add(Edge.make_bspline(
                [(-76.688929455, -7.012178967), (-77.740334836, -6.669763356), (-79.493284206, -5.687330151), (-79.609713646, -3.253547132), (-78.048029923, -1.823215334), (-76.690901104, -1.21666721), (-75.748356097, -1.133595475)],
                knots=[0, 0, 0, 0, 0.383378054, 0.51727079, 0.709392586, 1, 1, 1, 1], degree=3))
        make_face(mode=Mode.SUBTRACT)
    extrude(amount=SALIENTE_EXTRUIR1_DEPTH)


solid = part.part
